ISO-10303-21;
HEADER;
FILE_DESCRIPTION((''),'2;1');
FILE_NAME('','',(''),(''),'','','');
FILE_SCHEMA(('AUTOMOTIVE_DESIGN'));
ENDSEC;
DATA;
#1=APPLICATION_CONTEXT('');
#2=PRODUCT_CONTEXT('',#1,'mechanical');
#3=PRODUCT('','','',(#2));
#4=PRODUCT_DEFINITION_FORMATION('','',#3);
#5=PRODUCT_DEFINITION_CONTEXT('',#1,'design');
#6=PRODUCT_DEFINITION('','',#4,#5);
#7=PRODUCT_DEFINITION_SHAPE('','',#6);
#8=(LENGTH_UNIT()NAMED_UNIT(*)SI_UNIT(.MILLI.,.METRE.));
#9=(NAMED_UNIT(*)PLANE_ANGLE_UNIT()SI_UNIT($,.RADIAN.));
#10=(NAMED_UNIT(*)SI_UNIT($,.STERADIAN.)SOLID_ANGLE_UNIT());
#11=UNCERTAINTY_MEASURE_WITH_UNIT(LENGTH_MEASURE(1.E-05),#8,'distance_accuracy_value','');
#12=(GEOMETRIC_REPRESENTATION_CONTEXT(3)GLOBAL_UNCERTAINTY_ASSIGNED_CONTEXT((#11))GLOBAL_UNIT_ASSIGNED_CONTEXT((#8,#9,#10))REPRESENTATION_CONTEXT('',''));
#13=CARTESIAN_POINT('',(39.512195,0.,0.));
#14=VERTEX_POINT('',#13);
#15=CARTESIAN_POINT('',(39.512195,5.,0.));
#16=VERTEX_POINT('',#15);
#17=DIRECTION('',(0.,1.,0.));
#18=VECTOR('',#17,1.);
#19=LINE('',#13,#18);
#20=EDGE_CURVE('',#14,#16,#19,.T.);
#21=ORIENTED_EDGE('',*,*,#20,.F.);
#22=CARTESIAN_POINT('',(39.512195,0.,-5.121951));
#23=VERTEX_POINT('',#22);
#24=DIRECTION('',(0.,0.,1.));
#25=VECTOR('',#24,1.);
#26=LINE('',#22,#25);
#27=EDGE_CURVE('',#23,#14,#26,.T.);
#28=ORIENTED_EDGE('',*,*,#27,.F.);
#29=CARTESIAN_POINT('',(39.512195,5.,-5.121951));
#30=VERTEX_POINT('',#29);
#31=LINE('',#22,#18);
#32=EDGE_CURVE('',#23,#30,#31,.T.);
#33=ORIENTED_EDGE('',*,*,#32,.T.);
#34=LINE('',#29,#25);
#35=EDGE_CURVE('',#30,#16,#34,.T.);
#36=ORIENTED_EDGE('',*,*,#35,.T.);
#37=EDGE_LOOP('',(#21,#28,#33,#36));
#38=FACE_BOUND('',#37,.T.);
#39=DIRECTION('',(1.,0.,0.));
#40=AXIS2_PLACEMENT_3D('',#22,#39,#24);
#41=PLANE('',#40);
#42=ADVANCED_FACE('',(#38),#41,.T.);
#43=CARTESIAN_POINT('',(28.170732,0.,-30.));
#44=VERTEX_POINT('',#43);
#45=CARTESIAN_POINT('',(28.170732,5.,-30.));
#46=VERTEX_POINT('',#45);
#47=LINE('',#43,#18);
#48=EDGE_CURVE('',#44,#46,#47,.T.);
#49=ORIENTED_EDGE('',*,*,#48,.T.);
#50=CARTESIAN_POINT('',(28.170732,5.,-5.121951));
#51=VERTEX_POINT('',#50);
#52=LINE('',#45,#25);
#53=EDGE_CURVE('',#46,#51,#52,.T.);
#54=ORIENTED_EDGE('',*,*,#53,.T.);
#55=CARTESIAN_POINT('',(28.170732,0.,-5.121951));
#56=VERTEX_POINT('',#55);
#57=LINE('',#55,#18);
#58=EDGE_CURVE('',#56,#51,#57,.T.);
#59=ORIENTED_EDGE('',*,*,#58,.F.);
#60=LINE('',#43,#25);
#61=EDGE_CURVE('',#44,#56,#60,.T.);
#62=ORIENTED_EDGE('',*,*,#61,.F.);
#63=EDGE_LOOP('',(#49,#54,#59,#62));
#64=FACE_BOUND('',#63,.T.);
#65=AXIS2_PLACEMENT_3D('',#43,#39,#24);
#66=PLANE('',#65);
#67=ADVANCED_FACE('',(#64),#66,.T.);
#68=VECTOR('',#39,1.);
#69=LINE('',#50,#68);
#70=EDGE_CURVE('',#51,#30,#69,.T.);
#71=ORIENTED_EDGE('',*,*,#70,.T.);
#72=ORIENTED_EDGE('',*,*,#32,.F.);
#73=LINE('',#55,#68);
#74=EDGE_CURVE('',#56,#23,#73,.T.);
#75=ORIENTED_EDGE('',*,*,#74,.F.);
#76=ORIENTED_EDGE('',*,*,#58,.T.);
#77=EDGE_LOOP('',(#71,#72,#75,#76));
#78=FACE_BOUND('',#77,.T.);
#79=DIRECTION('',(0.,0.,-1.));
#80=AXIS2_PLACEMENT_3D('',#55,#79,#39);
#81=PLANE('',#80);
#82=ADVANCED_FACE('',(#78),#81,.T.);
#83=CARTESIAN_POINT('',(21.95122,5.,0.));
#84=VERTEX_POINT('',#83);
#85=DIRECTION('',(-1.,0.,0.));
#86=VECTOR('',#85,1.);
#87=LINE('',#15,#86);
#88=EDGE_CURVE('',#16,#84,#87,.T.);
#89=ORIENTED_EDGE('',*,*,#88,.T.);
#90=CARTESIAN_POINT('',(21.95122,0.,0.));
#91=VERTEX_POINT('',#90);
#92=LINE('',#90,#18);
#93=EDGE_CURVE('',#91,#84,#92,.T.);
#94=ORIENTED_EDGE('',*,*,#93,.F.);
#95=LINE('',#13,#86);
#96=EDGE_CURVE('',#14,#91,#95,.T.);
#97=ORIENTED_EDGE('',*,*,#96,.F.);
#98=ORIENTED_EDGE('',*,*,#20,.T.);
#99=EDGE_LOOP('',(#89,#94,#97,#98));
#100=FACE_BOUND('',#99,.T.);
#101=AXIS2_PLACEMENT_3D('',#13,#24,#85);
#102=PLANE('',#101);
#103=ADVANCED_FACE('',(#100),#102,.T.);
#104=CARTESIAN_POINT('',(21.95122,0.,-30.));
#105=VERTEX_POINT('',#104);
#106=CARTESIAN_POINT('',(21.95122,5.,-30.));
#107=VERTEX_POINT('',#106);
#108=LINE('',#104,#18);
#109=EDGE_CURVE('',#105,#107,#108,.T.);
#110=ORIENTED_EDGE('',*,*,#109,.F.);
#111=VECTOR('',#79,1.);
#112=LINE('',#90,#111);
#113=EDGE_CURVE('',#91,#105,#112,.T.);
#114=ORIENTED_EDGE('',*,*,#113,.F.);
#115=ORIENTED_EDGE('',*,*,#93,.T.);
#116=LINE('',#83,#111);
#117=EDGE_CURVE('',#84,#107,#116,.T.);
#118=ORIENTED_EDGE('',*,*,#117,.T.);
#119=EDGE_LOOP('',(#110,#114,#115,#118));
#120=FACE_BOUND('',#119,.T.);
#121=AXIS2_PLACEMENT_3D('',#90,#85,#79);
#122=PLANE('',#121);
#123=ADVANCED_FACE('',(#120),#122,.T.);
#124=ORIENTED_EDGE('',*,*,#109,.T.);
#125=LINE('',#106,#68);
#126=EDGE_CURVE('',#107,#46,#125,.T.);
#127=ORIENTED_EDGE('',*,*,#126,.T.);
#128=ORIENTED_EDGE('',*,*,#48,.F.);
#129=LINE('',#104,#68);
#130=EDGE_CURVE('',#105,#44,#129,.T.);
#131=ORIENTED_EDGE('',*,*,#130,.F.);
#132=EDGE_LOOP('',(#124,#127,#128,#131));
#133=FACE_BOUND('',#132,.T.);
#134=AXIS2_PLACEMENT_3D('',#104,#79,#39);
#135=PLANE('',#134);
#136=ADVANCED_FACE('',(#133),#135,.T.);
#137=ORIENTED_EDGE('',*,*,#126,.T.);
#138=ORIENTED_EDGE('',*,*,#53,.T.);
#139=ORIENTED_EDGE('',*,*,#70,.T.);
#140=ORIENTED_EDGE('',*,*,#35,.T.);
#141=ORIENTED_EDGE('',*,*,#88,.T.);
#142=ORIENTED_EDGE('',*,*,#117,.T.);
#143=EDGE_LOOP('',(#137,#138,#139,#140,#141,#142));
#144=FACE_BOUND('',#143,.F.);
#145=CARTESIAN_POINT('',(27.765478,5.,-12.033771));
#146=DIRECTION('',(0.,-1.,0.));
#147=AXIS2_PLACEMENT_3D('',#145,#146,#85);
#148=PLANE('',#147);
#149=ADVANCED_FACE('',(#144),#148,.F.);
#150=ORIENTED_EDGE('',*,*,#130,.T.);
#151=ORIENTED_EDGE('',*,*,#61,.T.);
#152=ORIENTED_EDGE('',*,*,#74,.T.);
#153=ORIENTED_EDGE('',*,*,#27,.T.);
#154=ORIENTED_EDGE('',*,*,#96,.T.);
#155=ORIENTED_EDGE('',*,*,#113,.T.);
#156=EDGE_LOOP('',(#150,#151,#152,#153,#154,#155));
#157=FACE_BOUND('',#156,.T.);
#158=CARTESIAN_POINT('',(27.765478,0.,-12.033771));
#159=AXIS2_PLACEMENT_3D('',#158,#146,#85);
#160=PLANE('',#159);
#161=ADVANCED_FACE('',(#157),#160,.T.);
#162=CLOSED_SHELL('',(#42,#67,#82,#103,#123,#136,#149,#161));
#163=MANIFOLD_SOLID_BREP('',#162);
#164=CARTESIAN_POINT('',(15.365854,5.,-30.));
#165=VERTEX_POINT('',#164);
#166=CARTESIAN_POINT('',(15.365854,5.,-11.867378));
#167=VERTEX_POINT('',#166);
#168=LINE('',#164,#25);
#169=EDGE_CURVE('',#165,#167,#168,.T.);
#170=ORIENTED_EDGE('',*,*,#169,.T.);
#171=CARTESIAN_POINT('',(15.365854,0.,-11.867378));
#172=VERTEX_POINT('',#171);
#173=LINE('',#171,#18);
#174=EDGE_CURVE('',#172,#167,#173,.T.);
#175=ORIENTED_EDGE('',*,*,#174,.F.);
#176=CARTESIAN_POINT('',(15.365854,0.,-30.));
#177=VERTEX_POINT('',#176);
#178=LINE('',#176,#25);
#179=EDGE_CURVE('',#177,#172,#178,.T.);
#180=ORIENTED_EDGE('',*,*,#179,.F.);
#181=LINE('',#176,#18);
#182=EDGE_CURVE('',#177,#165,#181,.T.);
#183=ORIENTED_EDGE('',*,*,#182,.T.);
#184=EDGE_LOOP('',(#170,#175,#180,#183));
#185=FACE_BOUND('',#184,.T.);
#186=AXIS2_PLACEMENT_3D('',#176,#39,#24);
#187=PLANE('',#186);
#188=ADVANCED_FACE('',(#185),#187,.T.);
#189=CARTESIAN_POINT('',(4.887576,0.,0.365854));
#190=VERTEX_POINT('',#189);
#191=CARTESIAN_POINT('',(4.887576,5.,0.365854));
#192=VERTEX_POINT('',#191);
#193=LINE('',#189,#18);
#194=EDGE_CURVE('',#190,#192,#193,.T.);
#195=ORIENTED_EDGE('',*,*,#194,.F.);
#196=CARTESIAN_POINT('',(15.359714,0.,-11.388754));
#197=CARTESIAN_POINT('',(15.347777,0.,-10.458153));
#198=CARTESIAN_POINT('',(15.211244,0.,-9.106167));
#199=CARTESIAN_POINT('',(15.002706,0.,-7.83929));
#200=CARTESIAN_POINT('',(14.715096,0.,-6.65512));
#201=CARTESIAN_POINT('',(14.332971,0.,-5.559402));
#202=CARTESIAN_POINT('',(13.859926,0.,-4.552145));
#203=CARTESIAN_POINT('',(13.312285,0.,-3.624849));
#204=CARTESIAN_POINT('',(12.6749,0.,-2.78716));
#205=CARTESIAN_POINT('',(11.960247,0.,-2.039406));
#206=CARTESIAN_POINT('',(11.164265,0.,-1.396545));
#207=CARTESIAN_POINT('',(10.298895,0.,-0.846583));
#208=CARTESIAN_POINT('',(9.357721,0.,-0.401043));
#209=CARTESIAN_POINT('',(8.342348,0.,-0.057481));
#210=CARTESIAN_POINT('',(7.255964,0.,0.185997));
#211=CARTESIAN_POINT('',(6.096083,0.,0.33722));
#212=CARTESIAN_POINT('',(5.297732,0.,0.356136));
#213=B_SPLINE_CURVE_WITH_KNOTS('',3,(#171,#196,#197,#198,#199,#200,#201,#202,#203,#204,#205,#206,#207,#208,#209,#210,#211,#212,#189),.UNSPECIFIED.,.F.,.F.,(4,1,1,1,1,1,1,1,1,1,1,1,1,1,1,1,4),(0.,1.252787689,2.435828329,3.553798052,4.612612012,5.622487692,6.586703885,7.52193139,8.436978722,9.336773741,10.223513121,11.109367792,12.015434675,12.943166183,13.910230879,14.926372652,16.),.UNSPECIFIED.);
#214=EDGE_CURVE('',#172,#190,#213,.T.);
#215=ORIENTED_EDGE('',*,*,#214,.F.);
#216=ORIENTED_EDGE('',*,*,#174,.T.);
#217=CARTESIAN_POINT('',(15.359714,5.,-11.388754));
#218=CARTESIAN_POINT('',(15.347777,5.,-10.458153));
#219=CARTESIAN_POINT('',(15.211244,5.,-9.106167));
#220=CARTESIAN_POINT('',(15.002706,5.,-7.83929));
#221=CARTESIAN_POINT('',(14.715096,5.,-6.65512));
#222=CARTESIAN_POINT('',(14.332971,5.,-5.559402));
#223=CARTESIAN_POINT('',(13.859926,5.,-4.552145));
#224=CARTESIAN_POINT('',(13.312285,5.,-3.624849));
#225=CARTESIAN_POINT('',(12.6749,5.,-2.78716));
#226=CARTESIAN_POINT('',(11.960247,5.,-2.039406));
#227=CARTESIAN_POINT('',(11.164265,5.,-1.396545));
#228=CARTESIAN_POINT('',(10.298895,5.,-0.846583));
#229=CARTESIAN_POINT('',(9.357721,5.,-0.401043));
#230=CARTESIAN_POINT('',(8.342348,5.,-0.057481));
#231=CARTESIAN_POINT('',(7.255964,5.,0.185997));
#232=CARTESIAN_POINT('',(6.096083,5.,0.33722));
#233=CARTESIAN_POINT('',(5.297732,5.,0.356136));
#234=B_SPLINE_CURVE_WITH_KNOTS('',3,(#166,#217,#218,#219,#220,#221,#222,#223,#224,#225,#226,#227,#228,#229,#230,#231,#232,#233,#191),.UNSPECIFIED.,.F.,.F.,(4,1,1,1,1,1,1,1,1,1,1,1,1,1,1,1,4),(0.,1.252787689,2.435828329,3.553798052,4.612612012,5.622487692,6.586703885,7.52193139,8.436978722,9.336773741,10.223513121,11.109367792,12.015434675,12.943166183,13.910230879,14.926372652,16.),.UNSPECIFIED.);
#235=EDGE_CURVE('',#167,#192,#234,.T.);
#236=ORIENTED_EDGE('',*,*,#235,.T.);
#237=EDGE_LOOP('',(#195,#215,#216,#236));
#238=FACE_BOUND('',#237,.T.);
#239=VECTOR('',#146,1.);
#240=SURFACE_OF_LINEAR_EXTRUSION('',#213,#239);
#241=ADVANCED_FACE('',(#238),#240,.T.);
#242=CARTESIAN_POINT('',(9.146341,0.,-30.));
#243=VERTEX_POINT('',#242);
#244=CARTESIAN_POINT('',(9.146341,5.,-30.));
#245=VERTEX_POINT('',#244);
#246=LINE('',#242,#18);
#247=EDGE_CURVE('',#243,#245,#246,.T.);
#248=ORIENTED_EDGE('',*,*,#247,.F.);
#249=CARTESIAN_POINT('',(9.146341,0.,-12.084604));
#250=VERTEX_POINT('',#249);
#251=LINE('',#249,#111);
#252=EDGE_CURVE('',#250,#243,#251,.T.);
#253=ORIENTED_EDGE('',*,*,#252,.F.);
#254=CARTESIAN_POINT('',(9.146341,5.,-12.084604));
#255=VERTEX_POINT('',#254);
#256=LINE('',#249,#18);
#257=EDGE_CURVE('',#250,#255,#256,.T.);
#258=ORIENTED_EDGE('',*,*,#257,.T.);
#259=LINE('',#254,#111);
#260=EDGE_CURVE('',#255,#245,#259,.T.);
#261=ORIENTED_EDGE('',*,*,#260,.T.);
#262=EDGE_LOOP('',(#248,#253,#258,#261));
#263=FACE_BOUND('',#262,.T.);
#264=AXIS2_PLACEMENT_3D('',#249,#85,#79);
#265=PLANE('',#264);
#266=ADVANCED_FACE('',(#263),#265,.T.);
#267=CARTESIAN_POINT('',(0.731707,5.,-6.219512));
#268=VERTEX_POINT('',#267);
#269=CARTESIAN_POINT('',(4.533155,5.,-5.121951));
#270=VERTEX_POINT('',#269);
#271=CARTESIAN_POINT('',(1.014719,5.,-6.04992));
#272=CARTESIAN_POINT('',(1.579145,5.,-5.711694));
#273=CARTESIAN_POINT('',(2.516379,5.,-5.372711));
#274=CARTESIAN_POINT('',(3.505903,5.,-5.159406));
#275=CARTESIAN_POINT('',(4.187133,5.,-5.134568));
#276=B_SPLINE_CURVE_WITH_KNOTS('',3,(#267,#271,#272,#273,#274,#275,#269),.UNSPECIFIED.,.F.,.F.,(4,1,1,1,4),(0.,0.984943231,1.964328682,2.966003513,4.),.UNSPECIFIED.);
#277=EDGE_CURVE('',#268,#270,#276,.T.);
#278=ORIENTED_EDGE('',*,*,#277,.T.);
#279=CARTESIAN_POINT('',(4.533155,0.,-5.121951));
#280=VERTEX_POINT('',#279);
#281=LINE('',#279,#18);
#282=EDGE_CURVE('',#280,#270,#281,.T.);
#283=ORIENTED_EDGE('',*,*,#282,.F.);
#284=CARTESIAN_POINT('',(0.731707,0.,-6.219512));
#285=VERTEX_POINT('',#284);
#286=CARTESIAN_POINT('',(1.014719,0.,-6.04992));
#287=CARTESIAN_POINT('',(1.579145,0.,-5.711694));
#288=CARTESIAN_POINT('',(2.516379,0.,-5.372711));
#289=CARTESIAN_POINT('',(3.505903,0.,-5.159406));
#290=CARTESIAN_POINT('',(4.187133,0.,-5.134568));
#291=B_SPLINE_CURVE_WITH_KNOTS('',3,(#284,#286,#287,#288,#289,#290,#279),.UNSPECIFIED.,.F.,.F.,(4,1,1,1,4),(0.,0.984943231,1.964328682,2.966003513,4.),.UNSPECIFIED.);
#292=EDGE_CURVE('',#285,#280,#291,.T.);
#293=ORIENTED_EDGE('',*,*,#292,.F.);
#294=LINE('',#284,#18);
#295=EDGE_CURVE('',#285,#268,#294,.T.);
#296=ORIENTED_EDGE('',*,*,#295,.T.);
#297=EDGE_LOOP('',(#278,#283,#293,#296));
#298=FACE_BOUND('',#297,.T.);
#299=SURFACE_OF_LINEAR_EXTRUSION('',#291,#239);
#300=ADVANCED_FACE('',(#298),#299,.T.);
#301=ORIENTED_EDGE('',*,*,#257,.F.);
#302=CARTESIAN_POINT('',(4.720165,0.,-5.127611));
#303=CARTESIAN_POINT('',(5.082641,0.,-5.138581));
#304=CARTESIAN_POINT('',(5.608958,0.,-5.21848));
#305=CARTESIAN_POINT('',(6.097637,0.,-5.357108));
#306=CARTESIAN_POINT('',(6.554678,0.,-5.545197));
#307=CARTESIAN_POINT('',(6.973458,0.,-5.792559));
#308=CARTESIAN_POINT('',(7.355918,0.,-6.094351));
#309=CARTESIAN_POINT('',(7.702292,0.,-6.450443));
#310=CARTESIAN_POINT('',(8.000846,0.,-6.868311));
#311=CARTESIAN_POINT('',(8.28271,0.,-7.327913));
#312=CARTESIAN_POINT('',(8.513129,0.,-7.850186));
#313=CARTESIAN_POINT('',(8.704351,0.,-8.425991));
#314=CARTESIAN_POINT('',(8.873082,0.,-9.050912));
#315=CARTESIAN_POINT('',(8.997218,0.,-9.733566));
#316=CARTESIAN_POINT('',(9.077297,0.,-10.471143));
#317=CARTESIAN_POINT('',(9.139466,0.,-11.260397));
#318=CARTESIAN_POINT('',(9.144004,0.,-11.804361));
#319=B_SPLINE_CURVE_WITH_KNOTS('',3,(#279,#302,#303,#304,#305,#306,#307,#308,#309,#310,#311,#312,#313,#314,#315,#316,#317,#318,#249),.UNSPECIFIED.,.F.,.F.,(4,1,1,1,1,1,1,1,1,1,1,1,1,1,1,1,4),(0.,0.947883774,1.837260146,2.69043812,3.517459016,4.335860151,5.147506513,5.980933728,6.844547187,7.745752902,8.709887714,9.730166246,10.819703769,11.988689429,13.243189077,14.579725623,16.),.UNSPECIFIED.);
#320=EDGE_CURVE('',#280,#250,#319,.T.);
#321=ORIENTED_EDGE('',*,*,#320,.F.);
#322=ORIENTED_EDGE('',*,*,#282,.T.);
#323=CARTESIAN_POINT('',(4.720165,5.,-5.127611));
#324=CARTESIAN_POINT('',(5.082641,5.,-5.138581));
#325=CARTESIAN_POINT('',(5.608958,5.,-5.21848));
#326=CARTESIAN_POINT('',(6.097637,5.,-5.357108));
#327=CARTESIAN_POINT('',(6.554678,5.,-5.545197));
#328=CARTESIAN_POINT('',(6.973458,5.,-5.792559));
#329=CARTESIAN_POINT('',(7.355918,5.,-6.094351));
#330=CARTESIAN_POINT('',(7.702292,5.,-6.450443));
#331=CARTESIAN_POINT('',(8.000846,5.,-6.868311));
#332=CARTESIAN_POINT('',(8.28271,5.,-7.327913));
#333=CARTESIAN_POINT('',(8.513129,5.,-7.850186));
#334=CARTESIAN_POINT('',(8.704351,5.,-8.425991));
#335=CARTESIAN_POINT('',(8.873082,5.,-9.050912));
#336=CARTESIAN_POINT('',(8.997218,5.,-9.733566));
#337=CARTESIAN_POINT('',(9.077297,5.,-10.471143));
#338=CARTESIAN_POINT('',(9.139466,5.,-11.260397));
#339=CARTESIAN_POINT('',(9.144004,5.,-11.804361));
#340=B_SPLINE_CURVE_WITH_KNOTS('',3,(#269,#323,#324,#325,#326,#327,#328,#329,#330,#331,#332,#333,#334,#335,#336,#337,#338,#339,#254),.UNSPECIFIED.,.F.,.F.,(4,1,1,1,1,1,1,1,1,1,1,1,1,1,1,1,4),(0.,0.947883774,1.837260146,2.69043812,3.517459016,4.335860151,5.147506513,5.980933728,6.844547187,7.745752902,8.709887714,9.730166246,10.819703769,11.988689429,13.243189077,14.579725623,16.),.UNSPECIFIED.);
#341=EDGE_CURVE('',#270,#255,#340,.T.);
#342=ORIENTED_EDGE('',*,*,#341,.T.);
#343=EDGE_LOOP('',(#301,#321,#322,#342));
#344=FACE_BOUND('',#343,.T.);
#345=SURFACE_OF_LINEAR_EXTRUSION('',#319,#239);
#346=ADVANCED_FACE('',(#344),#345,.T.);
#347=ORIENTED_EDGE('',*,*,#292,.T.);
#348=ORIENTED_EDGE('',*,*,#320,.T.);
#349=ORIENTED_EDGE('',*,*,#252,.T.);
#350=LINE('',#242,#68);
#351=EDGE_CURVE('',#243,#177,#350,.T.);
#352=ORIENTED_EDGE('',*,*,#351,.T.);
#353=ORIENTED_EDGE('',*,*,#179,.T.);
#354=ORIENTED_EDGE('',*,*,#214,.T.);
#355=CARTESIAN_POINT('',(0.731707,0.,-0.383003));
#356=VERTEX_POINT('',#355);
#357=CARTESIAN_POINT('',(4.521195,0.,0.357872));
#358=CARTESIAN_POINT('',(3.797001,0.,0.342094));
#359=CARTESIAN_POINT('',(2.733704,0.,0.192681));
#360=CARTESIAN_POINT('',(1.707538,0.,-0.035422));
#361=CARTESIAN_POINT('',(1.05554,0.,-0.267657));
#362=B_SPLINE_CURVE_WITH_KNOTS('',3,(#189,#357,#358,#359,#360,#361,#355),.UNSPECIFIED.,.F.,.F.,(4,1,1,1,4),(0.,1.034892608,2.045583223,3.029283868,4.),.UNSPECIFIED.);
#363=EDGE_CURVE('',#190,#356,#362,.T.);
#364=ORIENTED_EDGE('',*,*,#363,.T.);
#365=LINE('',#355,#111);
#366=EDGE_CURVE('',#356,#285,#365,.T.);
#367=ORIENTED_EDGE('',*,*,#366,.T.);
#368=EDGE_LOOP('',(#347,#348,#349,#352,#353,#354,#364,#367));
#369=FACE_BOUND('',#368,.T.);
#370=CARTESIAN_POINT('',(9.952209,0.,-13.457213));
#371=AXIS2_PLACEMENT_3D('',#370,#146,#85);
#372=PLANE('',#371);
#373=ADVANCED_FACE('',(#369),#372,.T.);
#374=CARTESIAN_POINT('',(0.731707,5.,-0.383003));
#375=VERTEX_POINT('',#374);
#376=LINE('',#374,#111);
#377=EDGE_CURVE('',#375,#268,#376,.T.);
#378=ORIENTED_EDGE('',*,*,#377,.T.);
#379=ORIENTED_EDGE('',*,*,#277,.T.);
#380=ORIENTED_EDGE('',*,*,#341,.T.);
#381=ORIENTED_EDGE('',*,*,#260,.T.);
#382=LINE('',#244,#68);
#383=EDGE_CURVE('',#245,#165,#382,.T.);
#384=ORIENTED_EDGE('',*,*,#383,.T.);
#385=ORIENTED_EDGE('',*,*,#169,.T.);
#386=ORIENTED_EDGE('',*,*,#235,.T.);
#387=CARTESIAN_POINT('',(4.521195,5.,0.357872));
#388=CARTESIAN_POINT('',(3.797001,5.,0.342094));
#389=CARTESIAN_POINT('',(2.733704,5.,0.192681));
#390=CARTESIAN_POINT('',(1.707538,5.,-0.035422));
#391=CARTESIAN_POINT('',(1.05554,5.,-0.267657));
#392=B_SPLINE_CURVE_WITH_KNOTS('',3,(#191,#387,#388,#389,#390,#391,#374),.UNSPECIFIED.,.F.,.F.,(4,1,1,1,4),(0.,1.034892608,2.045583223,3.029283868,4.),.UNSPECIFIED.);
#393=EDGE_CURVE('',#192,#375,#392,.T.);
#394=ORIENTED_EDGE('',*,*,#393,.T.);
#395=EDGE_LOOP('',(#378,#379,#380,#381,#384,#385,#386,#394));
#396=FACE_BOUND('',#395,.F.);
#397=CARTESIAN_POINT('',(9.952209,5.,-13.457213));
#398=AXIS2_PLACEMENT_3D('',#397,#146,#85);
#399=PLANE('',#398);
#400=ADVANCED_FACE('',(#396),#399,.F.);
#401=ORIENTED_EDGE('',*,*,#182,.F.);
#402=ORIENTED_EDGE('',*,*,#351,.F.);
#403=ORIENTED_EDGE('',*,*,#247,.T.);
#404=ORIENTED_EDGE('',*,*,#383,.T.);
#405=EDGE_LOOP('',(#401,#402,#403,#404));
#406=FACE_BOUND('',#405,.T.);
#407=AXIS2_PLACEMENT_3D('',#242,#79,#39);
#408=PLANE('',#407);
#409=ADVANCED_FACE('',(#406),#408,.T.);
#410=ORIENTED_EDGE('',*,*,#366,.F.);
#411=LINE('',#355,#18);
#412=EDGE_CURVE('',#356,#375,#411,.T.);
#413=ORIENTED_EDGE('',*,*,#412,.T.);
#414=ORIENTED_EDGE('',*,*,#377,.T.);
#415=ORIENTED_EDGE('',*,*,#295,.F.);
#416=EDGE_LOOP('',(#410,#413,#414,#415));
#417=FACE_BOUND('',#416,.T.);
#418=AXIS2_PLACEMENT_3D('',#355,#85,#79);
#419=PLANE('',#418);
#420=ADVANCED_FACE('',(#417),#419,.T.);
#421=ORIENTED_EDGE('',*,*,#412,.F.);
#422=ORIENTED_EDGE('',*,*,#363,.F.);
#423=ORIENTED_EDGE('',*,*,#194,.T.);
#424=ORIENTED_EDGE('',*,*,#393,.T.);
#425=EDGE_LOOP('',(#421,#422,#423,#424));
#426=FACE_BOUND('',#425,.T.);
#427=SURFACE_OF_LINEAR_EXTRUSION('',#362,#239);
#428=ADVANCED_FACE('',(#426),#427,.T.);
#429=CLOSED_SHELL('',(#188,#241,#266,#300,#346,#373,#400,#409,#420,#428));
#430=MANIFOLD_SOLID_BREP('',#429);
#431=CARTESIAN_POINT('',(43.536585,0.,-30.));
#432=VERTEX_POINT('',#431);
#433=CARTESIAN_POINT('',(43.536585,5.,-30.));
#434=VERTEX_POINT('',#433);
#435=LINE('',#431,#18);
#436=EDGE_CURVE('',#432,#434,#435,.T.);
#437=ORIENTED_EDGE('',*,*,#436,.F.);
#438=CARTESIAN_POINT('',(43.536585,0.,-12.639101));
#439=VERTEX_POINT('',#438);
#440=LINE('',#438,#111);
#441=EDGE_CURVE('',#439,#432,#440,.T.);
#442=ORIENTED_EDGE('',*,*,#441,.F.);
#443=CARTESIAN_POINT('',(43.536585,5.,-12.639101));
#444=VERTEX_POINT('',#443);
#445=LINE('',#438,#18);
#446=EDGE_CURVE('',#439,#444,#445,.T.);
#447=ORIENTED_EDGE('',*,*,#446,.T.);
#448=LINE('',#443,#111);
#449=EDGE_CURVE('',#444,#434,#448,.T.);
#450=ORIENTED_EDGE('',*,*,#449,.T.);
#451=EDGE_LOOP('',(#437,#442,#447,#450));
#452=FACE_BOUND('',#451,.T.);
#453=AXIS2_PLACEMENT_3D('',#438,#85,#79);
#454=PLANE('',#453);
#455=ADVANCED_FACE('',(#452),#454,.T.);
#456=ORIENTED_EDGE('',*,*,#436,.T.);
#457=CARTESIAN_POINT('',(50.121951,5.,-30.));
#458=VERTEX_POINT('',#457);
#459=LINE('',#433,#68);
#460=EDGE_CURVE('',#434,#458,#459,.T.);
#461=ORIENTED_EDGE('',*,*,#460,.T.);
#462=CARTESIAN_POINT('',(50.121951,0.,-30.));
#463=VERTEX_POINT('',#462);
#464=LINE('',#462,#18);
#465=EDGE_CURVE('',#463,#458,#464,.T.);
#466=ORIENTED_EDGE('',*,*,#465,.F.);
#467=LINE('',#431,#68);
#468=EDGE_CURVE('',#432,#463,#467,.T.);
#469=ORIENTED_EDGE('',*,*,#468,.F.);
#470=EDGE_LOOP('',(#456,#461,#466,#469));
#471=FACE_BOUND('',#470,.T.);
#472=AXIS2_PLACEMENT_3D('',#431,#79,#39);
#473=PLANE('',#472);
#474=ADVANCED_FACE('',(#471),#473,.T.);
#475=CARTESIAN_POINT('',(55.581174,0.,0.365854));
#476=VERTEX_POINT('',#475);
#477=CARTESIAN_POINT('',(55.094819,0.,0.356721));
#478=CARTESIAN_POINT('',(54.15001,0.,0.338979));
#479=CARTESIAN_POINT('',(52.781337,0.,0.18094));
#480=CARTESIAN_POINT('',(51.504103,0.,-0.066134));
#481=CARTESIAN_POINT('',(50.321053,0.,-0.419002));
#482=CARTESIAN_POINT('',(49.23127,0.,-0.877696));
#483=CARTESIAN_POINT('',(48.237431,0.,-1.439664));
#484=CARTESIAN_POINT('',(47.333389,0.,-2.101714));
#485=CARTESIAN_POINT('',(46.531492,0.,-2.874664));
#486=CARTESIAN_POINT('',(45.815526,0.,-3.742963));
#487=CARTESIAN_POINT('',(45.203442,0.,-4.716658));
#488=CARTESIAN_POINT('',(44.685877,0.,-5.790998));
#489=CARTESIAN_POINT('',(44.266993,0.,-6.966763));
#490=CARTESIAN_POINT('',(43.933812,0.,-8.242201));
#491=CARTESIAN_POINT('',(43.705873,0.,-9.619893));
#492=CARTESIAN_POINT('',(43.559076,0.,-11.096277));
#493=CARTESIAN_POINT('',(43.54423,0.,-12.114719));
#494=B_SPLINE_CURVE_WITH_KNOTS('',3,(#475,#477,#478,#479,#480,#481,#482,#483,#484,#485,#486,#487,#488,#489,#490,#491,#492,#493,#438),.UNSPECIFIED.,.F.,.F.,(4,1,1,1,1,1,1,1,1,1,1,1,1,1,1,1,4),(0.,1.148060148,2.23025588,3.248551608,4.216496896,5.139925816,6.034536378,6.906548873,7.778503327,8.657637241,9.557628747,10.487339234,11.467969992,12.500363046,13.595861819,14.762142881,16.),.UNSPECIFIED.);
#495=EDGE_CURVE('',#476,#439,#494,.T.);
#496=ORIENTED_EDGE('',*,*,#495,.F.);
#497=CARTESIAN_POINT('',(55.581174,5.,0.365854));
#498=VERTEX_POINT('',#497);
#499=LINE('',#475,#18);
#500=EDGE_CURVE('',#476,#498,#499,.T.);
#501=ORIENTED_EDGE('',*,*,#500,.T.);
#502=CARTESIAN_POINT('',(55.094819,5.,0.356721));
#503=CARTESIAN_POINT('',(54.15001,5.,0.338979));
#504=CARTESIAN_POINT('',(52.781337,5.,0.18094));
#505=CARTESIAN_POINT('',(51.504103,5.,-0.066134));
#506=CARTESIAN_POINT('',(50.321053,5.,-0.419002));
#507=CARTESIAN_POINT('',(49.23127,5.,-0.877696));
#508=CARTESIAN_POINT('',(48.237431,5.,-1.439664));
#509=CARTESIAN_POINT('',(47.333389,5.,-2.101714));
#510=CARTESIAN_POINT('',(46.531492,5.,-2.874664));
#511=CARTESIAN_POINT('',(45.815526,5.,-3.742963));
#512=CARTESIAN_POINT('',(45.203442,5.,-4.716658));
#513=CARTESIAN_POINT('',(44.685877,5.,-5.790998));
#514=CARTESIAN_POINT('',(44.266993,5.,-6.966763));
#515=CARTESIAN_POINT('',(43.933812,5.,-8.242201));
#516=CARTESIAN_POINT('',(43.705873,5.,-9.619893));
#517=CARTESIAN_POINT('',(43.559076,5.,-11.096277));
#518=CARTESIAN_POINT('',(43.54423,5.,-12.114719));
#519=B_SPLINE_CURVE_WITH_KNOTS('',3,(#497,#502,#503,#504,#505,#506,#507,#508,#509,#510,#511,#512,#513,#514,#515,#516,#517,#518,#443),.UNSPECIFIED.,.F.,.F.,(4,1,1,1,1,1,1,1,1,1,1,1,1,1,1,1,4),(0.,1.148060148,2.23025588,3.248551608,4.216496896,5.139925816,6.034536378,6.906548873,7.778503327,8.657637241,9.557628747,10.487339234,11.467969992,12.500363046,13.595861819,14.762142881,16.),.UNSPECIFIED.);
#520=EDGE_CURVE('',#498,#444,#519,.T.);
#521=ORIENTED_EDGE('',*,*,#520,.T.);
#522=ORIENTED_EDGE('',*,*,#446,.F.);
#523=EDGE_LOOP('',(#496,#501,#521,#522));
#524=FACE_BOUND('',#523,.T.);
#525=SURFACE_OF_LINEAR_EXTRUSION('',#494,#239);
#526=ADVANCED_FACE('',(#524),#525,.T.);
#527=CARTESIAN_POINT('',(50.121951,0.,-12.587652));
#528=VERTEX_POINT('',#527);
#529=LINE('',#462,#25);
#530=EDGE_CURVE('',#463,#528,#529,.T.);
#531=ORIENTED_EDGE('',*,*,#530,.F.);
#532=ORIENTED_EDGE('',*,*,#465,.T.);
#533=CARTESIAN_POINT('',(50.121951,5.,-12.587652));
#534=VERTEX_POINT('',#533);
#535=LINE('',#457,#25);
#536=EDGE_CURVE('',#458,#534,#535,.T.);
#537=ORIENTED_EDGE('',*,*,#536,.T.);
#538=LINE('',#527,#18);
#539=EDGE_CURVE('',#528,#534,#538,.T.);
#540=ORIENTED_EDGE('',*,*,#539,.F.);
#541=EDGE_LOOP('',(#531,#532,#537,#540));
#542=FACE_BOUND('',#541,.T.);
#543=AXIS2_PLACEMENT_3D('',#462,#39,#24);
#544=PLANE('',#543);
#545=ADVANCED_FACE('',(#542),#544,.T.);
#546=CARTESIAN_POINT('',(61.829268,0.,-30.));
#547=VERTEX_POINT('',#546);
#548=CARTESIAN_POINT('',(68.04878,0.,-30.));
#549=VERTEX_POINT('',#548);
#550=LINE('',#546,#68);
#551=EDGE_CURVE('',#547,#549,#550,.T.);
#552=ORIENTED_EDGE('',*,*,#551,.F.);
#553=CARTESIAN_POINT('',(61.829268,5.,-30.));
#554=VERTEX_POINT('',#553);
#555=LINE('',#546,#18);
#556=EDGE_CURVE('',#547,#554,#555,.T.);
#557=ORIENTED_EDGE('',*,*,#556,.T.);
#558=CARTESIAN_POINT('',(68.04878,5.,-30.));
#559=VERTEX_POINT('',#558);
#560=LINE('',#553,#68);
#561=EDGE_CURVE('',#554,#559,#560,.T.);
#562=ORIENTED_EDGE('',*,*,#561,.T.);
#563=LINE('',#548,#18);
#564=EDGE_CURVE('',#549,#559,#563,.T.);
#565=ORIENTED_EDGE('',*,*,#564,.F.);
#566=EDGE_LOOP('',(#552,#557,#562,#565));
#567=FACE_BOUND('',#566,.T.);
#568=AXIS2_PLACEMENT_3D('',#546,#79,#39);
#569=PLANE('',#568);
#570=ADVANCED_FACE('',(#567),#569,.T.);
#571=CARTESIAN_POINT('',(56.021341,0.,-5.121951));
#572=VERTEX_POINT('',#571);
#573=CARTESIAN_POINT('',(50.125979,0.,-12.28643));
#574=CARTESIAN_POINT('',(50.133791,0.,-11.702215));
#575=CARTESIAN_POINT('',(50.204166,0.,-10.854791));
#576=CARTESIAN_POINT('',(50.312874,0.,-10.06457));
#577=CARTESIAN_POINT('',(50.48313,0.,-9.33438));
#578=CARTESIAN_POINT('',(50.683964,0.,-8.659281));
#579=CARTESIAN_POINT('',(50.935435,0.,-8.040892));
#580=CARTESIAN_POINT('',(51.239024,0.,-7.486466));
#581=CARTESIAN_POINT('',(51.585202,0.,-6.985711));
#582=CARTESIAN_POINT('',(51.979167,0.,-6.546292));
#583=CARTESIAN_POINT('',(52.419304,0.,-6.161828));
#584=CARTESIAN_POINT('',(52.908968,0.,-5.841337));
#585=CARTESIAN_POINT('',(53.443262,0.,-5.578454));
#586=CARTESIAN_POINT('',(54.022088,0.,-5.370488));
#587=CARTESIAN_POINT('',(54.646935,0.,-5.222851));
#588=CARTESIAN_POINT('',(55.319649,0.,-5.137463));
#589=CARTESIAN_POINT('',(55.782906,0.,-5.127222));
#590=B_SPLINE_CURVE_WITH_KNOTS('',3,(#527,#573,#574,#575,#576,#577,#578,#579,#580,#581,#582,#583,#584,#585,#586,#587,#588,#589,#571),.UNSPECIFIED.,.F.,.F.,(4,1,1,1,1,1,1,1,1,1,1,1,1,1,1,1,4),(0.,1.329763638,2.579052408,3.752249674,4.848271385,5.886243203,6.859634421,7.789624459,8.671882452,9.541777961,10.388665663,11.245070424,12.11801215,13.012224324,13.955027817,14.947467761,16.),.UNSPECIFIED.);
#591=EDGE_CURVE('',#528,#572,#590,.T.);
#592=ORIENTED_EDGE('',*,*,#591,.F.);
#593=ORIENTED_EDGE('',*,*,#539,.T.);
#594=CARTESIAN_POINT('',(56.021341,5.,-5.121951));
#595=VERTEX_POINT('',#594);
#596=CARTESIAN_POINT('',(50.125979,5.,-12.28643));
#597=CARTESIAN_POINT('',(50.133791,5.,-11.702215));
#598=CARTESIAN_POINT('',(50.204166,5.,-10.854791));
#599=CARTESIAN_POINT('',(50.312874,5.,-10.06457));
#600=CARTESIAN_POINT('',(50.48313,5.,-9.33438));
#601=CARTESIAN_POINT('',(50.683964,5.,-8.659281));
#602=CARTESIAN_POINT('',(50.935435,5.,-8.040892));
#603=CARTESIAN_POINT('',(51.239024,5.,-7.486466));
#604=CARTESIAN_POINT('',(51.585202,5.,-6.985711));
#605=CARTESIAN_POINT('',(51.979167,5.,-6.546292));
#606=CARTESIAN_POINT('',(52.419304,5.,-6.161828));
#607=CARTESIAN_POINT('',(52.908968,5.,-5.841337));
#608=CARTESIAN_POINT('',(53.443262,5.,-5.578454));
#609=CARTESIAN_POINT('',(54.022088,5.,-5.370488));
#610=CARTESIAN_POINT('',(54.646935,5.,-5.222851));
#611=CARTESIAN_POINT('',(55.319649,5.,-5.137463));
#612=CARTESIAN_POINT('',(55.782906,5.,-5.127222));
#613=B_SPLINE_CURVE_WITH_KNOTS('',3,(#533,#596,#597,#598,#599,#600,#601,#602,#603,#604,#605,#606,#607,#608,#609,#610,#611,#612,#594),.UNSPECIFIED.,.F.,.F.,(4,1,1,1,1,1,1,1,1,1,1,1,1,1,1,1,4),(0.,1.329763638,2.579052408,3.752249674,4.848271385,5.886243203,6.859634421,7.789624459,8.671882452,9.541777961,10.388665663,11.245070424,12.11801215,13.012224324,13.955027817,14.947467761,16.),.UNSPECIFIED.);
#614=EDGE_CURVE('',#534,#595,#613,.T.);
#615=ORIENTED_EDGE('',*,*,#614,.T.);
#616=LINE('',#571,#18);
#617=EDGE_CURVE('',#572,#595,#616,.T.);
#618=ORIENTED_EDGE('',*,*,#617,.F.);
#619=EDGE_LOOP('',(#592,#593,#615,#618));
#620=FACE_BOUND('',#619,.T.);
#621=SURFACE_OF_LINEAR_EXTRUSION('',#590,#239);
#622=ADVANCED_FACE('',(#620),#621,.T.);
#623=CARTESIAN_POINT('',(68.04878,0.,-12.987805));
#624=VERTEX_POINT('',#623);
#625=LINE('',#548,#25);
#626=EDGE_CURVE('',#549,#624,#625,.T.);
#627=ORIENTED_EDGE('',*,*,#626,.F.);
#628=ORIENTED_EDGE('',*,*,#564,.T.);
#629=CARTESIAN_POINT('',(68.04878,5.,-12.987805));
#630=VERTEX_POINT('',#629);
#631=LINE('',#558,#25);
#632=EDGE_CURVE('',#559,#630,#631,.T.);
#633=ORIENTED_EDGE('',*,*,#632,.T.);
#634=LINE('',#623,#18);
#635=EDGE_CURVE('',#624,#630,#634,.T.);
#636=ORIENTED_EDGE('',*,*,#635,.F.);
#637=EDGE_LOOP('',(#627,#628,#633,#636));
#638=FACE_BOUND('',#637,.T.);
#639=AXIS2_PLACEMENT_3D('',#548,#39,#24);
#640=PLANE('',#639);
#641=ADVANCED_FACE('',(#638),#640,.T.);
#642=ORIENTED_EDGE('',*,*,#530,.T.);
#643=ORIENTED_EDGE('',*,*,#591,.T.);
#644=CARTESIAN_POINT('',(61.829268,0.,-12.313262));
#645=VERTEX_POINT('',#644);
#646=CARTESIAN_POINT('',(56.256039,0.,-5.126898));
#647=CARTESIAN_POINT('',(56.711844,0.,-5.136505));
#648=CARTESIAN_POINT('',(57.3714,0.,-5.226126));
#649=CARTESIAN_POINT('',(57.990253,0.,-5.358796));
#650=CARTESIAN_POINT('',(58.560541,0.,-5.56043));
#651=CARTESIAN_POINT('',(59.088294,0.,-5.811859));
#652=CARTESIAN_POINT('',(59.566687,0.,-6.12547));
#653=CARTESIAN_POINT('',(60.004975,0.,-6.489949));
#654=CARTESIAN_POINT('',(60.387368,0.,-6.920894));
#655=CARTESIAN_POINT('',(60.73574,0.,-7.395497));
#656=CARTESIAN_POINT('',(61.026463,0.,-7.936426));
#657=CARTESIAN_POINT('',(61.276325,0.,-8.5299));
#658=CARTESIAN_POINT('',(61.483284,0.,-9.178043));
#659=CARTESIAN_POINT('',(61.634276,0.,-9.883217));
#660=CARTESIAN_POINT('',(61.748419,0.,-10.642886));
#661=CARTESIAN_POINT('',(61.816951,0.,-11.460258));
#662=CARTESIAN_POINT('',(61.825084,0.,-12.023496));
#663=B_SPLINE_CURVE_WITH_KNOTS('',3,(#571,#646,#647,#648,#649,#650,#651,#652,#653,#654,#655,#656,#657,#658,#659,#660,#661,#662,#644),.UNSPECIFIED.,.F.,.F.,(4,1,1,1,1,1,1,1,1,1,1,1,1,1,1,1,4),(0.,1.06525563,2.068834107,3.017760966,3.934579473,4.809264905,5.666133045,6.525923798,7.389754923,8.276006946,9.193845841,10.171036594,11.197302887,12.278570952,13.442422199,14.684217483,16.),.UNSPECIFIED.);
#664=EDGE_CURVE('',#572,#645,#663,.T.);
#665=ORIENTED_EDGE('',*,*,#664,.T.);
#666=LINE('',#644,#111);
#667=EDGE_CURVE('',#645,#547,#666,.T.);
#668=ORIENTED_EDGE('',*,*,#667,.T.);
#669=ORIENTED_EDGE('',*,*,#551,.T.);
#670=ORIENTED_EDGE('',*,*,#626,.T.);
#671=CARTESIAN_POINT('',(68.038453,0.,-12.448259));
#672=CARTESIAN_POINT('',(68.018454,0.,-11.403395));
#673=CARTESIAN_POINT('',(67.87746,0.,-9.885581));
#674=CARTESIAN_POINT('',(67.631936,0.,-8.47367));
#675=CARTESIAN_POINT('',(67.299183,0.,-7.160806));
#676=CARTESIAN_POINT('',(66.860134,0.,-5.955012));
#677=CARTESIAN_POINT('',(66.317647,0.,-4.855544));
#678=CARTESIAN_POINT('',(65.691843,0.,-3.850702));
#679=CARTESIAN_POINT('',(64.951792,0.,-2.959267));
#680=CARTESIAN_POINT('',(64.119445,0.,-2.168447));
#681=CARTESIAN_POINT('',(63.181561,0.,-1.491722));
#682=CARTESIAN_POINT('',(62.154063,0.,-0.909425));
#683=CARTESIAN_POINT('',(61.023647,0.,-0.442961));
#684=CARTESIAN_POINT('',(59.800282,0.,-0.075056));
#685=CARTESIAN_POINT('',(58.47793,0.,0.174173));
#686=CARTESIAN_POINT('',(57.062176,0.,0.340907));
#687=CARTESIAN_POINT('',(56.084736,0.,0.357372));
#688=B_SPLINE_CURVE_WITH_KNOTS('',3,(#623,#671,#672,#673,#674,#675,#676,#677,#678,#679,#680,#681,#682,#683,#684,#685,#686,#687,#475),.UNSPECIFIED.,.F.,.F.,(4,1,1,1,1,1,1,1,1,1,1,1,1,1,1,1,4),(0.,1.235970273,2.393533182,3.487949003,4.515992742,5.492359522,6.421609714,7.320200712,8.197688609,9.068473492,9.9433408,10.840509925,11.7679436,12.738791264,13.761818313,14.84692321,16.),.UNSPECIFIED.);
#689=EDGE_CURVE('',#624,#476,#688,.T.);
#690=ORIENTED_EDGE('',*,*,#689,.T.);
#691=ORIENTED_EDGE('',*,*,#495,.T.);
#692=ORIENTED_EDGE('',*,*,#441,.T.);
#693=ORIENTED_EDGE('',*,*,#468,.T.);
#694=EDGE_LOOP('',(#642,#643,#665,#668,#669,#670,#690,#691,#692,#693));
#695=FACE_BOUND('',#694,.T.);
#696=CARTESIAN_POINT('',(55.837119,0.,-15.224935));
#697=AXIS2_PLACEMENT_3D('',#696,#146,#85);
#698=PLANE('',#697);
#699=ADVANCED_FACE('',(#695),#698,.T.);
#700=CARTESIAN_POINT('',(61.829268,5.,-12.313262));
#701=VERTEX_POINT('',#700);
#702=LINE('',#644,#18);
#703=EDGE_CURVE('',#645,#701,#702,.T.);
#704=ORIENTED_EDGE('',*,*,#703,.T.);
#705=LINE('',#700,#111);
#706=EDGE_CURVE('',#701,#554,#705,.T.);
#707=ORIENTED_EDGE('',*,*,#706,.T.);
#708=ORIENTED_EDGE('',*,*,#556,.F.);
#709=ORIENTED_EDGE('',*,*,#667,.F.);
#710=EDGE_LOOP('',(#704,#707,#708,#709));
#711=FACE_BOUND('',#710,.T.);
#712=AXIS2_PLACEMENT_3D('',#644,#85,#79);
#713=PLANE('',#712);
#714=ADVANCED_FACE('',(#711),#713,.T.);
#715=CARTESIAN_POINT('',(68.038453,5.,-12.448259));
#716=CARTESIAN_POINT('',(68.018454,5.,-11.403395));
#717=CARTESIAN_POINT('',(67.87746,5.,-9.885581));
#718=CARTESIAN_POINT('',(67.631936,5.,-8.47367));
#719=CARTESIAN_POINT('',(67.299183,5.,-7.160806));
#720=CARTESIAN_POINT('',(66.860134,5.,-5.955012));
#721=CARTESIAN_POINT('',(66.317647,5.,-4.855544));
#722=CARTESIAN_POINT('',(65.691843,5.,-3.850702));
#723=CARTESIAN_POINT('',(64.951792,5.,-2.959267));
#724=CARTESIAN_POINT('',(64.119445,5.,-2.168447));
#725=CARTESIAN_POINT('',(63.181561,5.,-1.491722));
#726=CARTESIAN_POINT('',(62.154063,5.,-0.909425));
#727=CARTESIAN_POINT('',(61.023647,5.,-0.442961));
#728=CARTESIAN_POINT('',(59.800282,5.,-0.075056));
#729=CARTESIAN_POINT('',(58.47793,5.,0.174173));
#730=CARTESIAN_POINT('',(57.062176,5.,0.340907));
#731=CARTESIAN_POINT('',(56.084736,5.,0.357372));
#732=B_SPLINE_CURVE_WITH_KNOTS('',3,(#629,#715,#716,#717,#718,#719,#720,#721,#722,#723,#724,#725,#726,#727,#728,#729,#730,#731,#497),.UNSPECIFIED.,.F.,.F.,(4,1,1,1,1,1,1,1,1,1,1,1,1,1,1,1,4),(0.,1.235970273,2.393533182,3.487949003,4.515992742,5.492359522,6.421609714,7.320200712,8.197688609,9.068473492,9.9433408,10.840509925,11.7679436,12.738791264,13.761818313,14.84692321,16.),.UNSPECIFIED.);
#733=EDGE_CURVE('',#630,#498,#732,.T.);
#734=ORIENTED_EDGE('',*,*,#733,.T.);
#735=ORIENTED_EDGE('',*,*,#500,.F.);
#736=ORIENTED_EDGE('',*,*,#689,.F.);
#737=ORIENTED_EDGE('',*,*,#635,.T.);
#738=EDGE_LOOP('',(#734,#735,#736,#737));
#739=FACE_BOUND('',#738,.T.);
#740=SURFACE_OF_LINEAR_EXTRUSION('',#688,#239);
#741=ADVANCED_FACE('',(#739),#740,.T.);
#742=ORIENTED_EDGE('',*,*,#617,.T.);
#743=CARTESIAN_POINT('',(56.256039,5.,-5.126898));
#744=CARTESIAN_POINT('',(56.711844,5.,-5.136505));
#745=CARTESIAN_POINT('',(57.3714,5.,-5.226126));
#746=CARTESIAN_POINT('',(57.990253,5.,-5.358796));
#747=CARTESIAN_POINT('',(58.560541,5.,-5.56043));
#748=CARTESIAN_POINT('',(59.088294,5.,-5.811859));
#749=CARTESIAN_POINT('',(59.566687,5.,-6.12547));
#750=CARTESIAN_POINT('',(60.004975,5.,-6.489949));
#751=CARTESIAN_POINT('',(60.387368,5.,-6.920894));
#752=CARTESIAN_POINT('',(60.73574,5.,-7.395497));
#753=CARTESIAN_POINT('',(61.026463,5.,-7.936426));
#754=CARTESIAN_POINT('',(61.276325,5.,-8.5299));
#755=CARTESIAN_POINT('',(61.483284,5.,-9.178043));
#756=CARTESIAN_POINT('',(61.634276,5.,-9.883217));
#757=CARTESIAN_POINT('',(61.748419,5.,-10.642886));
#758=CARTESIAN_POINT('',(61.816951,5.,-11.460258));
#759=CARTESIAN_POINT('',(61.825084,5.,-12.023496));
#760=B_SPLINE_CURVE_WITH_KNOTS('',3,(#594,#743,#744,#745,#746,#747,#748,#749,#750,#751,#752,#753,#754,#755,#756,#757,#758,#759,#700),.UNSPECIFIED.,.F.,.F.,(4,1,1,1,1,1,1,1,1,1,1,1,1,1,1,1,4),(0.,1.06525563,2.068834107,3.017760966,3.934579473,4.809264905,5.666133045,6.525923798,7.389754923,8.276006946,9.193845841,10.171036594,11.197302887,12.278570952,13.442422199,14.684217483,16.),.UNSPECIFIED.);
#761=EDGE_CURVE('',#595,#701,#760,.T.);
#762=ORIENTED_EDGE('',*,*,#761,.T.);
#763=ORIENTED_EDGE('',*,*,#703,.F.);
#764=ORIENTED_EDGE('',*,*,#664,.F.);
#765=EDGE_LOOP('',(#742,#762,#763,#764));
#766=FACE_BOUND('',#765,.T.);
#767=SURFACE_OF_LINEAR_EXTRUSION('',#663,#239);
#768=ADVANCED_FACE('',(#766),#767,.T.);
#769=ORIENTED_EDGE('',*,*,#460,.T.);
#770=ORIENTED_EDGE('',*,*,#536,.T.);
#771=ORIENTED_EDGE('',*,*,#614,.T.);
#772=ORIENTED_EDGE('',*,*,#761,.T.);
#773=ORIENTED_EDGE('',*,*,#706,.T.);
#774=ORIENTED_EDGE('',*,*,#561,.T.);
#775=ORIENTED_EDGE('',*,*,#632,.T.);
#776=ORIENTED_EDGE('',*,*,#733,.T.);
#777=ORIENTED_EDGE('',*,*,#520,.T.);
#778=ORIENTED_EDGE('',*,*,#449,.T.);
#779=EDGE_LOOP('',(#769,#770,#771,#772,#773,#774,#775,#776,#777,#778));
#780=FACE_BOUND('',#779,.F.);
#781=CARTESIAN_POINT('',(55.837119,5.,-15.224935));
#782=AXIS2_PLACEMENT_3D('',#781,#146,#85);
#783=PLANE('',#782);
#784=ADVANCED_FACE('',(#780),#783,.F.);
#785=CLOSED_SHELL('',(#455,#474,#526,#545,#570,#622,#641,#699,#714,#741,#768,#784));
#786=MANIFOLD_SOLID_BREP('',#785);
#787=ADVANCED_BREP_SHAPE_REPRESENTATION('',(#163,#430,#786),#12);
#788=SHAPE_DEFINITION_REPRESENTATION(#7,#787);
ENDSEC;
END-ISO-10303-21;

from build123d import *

# Parameters (mm, degrees)
EXTRUDE_1_DEPTH   = 5
EXTRUDE_1_2_DEPTH = 5
EXTRUDE_1_3_DEPTH = 5


with BuildPart() as part:
    # 草图1 → 凸台-拉伸1 (new body)
    with BuildSketch(Plane(origin=(0, 0, 0), x_dir=(1, 0, 0), z_dir=(0, 1, 0))):
        with BuildLine():
            add(Edge.make_bspline(
                [(15.365853659, 11.867378049), (15.359714143, 11.388754175), (15.34777692, 10.458153084), (15.211244414, 9.106167205), (15.002706243, 7.839290187), (14.715095668, 6.655120447), (14.332970611, 5.559401607), (13.859925734, 4.55214514), (13.312285096, 3.624848618), (12.674899746, 2.787160052), (11.960247142, 2.039406472), (11.164265164, 1.396545215), (10.298894503, 0.846582857), (9.357721104, 0.401042681), (8.342347892, 0.057481376), (7.255963883, -0.18599665), (6.096083165, -0.337220248), (5.29773224, -0.356135745), (4.88757622, -0.365853659)],
                knots=[0, 0, 0, 0, 1.252787689, 2.435828329, 3.553798052, 4.612612012, 5.622487692, 6.586703885, 7.52193139, 8.436978722, 9.336773741, 10.223513121, 11.109367792, 12.015434675, 12.943166183, 13.910230879, 14.926372652, 16, 16, 16, 16], degree=3))
            add(Edge.make_bspline(
                [(4.88757622, -0.365853659), (4.521195176, -0.357871677), (3.797001275, -0.342094379), (2.733703817, -0.192680967), (1.707538009, 0.035421939), (1.055540327, 0.267656977), (0.731707317, 0.383003049)],
                knots=[0, 0, 0, 0, 1.034892608, 2.045583223, 3.029283868, 4, 4, 4, 4], degree=3))
            Line((0.731707317, 0.383003049), (0.731707317, 6.219512195))
            add(Edge.make_bspline(
                [(0.731707317, 6.219512195), (1.01471884, 6.049920454), (1.579144924, 5.711693933), (2.516379223, 5.372711427), (3.505903389, 5.159406119), (4.187132684, 5.134567645), (4.533155488, 5.12195122)],
                knots=[0, 0, 0, 0, 0.984943231, 1.964328682, 2.966003513, 4, 4, 4, 4], degree=3))
            add(Edge.make_bspline(
                [(4.533155488, 5.12195122), (4.720164972, 5.127610952), (5.082640922, 5.138581075), (5.608957749, 5.218480357), (6.097637405, 5.357107978), (6.554677931, 5.545197073), (6.973457762, 5.79255926), (7.355917566, 6.094351317), (7.702292294, 6.450442897), (8.000845903, 6.868310794), (8.282709642, 7.327912824), (8.513128963, 7.850186322), (8.704351377, 8.42599057), (8.873082335, 9.05091247), (8.997218015, 9.733566303), (9.077296908, 10.471143259), (9.139465773, 11.260397367), (9.144003621, 11.80436062), (9.146341463, 12.084603659)],
                knots=[0, 0, 0, 0, 0.947883774, 1.837260146, 2.69043812, 3.517459016, 4.335860151, 5.147506513, 5.980933728, 6.844547187, 7.745752902, 8.709887714, 9.730166246, 10.819703769, 11.988689429, 13.243189077, 14.579725623, 16, 16, 16, 16], degree=3))
            Line((9.146341463, 12.084603659), (9.146341463, 30))
            Line((9.146341463, 30), (15.365853659, 30))
            Line((15.365853659, 30), (15.365853659, 11.867378049))
        make_face()
    extrude(amount=EXTRUDE_1_DEPTH)


with BuildPart() as body_2:
    # 草图1 → Extrude 1 2 (new body)
    with BuildSketch(Plane(origin=(0, 0, 0), x_dir=(1, 0, 0), z_dir=(0, 1, 0))):
        Polygon((39.512195122, 0), (21.951219512, 0), (21.951219512, 30), (28.170731707, 30), (28.170731707, 5.12195122), (39.512195122, 5.12195122), align=None)
    extrude(amount=EXTRUDE_1_2_DEPTH)


with BuildPart() as body_3:
    # 草图1 → Extrude 1 3 (new body)
    with BuildSketch(Plane(origin=(0, 0, 0), x_dir=(1, 0, 0), z_dir=(0, 1, 0))):
        with BuildLine():
            add(Edge.make_bspline(
                [(68.048780488, 12.987804878), (68.038453214, 12.448258877), (68.018453806, 11.403394542), (67.877460436, 9.885580867), (67.631936034, 8.47367009), (67.299183021, 7.160805712), (66.860134182, 5.95501179), (66.317646786, 4.855544135), (65.691843396, 3.850702018), (64.951792374, 2.959266592), (64.119444781, 2.168446752), (63.181561334, 1.491722462), (62.154063147, 0.90942498), (61.023647309, 0.442961438), (59.800281913, 0.075055544), (58.477930222, -0.174172886), (57.062175851, -0.340907214), (56.084735843, -0.357371508), (55.58117378, -0.365853659)],
                knots=[0, 0, 0, 0, 1.235970273, 2.393533182, 3.487949003, 4.515992742, 5.492359522, 6.421609714, 7.320200712, 8.197688609, 9.068473492, 9.9433408, 10.840509925, 11.7679436, 12.738791264, 13.761818313, 14.84692321, 16, 16, 16, 16], degree=3))
            add(Edge.make_bspline(
                [(55.58117378, -0.365853659), (55.094818522, -0.356720706), (54.150010293, -0.338978761), (52.781336736, -0.180940289), (51.504103167, 0.066133741), (50.321052821, 0.419002075), (49.231269892, 0.877695667), (48.237431368, 1.439664261), (47.333388641, 2.101713518), (46.531492419, 2.874663855), (45.815526399, 3.7429627), (45.203441798, 4.716658114), (44.68587711, 5.790997908), (44.266993374, 6.966763371), (43.933811725, 8.242201159), (43.705872632, 9.619893209), (43.559076455, 11.09627721), (43.544229734, 12.114719118), (43.536585366, 12.63910061)],
                knots=[0, 0, 0, 0, 1.148060148, 2.23025588, 3.248551608, 4.216496896, 5.139925816, 6.034536378, 6.906548873, 7.778503327, 8.657637241, 9.557628747, 10.487339234, 11.467969992, 12.500363046, 13.595861819, 14.762142881, 16, 16, 16, 16], degree=3))
            Line((43.536585366, 12.63910061), (43.536585366, 30))
            Line((43.536585366, 30), (50.12195122, 30))
            Line((50.12195122, 30), (50.12195122, 12.587652439))
            add(Edge.make_bspline(
                [(50.12195122, 12.587652439), (50.125979019, 12.286430181), (50.133790862, 11.702215085), (50.204165603, 10.854791493), (50.312874033, 10.064569644), (50.483130108, 9.334380345), (50.683964475, 8.65928118), (50.935435455, 8.040892169), (51.23902393, 7.486466147), (51.585201874, 6.985710714), (51.979166809, 6.546292366), (52.419303983, 6.161827763), (52.908968052, 5.841337226), (53.443261848, 5.578453606), (54.022088498, 5.370487914), (54.646934899, 5.222850963), (55.3196495, 5.137463485), (55.782906481, 5.127222289), (56.021341463, 5.12195122)],
                knots=[0, 0, 0, 0, 1.329763638, 2.579052408, 3.752249674, 4.848271385, 5.886243203, 6.859634421, 7.789624459, 8.671882452, 9.541777961, 10.388665663, 11.245070424, 12.11801215, 13.012224324, 13.955027817, 14.947467761, 16, 16, 16, 16], degree=3))
            add(Edge.make_bspline(
                [(56.021341463, 5.12195122), (56.256038599, 5.126897845), (56.71184416, 5.136504692), (57.371400342, 5.226125795), (57.990253302, 5.358795866), (58.560541463, 5.560430031), (59.088293744, 5.811859102), (59.566686889, 6.125470048), (60.004975486, 6.489949165), (60.387367979, 6.920893726), (60.735740084, 7.395497154), (61.026463257, 7.936425929), (61.27632455, 8.529899757), (61.483284006, 9.178043168), (61.634276076, 9.883217192), (61.748419073, 10.642886398), (61.816950956, 11.46025809), (61.825084087, 12.023496256), (61.829268293, 12.313262195)],
                knots=[0, 0, 0, 0, 1.06525563, 2.068834107, 3.017760966, 3.934579473, 4.809264905, 5.666133045, 6.525923798, 7.389754923, 8.276006946, 9.193845841, 10.171036594, 11.197302887, 12.278570952, 13.442422199, 14.684217483, 16, 16, 16, 16], degree=3))
            Line((61.829268293, 12.313262195), (61.829268293, 30))
            Line((61.829268293, 30), (68.048780488, 30))
            Line((68.048780488, 30), (68.048780488, 12.987804878))
        make_face()
    extrude(amount=EXTRUDE_1_3_DEPTH)


solid = Compound([part.part, body_2.part, body_3.part])
